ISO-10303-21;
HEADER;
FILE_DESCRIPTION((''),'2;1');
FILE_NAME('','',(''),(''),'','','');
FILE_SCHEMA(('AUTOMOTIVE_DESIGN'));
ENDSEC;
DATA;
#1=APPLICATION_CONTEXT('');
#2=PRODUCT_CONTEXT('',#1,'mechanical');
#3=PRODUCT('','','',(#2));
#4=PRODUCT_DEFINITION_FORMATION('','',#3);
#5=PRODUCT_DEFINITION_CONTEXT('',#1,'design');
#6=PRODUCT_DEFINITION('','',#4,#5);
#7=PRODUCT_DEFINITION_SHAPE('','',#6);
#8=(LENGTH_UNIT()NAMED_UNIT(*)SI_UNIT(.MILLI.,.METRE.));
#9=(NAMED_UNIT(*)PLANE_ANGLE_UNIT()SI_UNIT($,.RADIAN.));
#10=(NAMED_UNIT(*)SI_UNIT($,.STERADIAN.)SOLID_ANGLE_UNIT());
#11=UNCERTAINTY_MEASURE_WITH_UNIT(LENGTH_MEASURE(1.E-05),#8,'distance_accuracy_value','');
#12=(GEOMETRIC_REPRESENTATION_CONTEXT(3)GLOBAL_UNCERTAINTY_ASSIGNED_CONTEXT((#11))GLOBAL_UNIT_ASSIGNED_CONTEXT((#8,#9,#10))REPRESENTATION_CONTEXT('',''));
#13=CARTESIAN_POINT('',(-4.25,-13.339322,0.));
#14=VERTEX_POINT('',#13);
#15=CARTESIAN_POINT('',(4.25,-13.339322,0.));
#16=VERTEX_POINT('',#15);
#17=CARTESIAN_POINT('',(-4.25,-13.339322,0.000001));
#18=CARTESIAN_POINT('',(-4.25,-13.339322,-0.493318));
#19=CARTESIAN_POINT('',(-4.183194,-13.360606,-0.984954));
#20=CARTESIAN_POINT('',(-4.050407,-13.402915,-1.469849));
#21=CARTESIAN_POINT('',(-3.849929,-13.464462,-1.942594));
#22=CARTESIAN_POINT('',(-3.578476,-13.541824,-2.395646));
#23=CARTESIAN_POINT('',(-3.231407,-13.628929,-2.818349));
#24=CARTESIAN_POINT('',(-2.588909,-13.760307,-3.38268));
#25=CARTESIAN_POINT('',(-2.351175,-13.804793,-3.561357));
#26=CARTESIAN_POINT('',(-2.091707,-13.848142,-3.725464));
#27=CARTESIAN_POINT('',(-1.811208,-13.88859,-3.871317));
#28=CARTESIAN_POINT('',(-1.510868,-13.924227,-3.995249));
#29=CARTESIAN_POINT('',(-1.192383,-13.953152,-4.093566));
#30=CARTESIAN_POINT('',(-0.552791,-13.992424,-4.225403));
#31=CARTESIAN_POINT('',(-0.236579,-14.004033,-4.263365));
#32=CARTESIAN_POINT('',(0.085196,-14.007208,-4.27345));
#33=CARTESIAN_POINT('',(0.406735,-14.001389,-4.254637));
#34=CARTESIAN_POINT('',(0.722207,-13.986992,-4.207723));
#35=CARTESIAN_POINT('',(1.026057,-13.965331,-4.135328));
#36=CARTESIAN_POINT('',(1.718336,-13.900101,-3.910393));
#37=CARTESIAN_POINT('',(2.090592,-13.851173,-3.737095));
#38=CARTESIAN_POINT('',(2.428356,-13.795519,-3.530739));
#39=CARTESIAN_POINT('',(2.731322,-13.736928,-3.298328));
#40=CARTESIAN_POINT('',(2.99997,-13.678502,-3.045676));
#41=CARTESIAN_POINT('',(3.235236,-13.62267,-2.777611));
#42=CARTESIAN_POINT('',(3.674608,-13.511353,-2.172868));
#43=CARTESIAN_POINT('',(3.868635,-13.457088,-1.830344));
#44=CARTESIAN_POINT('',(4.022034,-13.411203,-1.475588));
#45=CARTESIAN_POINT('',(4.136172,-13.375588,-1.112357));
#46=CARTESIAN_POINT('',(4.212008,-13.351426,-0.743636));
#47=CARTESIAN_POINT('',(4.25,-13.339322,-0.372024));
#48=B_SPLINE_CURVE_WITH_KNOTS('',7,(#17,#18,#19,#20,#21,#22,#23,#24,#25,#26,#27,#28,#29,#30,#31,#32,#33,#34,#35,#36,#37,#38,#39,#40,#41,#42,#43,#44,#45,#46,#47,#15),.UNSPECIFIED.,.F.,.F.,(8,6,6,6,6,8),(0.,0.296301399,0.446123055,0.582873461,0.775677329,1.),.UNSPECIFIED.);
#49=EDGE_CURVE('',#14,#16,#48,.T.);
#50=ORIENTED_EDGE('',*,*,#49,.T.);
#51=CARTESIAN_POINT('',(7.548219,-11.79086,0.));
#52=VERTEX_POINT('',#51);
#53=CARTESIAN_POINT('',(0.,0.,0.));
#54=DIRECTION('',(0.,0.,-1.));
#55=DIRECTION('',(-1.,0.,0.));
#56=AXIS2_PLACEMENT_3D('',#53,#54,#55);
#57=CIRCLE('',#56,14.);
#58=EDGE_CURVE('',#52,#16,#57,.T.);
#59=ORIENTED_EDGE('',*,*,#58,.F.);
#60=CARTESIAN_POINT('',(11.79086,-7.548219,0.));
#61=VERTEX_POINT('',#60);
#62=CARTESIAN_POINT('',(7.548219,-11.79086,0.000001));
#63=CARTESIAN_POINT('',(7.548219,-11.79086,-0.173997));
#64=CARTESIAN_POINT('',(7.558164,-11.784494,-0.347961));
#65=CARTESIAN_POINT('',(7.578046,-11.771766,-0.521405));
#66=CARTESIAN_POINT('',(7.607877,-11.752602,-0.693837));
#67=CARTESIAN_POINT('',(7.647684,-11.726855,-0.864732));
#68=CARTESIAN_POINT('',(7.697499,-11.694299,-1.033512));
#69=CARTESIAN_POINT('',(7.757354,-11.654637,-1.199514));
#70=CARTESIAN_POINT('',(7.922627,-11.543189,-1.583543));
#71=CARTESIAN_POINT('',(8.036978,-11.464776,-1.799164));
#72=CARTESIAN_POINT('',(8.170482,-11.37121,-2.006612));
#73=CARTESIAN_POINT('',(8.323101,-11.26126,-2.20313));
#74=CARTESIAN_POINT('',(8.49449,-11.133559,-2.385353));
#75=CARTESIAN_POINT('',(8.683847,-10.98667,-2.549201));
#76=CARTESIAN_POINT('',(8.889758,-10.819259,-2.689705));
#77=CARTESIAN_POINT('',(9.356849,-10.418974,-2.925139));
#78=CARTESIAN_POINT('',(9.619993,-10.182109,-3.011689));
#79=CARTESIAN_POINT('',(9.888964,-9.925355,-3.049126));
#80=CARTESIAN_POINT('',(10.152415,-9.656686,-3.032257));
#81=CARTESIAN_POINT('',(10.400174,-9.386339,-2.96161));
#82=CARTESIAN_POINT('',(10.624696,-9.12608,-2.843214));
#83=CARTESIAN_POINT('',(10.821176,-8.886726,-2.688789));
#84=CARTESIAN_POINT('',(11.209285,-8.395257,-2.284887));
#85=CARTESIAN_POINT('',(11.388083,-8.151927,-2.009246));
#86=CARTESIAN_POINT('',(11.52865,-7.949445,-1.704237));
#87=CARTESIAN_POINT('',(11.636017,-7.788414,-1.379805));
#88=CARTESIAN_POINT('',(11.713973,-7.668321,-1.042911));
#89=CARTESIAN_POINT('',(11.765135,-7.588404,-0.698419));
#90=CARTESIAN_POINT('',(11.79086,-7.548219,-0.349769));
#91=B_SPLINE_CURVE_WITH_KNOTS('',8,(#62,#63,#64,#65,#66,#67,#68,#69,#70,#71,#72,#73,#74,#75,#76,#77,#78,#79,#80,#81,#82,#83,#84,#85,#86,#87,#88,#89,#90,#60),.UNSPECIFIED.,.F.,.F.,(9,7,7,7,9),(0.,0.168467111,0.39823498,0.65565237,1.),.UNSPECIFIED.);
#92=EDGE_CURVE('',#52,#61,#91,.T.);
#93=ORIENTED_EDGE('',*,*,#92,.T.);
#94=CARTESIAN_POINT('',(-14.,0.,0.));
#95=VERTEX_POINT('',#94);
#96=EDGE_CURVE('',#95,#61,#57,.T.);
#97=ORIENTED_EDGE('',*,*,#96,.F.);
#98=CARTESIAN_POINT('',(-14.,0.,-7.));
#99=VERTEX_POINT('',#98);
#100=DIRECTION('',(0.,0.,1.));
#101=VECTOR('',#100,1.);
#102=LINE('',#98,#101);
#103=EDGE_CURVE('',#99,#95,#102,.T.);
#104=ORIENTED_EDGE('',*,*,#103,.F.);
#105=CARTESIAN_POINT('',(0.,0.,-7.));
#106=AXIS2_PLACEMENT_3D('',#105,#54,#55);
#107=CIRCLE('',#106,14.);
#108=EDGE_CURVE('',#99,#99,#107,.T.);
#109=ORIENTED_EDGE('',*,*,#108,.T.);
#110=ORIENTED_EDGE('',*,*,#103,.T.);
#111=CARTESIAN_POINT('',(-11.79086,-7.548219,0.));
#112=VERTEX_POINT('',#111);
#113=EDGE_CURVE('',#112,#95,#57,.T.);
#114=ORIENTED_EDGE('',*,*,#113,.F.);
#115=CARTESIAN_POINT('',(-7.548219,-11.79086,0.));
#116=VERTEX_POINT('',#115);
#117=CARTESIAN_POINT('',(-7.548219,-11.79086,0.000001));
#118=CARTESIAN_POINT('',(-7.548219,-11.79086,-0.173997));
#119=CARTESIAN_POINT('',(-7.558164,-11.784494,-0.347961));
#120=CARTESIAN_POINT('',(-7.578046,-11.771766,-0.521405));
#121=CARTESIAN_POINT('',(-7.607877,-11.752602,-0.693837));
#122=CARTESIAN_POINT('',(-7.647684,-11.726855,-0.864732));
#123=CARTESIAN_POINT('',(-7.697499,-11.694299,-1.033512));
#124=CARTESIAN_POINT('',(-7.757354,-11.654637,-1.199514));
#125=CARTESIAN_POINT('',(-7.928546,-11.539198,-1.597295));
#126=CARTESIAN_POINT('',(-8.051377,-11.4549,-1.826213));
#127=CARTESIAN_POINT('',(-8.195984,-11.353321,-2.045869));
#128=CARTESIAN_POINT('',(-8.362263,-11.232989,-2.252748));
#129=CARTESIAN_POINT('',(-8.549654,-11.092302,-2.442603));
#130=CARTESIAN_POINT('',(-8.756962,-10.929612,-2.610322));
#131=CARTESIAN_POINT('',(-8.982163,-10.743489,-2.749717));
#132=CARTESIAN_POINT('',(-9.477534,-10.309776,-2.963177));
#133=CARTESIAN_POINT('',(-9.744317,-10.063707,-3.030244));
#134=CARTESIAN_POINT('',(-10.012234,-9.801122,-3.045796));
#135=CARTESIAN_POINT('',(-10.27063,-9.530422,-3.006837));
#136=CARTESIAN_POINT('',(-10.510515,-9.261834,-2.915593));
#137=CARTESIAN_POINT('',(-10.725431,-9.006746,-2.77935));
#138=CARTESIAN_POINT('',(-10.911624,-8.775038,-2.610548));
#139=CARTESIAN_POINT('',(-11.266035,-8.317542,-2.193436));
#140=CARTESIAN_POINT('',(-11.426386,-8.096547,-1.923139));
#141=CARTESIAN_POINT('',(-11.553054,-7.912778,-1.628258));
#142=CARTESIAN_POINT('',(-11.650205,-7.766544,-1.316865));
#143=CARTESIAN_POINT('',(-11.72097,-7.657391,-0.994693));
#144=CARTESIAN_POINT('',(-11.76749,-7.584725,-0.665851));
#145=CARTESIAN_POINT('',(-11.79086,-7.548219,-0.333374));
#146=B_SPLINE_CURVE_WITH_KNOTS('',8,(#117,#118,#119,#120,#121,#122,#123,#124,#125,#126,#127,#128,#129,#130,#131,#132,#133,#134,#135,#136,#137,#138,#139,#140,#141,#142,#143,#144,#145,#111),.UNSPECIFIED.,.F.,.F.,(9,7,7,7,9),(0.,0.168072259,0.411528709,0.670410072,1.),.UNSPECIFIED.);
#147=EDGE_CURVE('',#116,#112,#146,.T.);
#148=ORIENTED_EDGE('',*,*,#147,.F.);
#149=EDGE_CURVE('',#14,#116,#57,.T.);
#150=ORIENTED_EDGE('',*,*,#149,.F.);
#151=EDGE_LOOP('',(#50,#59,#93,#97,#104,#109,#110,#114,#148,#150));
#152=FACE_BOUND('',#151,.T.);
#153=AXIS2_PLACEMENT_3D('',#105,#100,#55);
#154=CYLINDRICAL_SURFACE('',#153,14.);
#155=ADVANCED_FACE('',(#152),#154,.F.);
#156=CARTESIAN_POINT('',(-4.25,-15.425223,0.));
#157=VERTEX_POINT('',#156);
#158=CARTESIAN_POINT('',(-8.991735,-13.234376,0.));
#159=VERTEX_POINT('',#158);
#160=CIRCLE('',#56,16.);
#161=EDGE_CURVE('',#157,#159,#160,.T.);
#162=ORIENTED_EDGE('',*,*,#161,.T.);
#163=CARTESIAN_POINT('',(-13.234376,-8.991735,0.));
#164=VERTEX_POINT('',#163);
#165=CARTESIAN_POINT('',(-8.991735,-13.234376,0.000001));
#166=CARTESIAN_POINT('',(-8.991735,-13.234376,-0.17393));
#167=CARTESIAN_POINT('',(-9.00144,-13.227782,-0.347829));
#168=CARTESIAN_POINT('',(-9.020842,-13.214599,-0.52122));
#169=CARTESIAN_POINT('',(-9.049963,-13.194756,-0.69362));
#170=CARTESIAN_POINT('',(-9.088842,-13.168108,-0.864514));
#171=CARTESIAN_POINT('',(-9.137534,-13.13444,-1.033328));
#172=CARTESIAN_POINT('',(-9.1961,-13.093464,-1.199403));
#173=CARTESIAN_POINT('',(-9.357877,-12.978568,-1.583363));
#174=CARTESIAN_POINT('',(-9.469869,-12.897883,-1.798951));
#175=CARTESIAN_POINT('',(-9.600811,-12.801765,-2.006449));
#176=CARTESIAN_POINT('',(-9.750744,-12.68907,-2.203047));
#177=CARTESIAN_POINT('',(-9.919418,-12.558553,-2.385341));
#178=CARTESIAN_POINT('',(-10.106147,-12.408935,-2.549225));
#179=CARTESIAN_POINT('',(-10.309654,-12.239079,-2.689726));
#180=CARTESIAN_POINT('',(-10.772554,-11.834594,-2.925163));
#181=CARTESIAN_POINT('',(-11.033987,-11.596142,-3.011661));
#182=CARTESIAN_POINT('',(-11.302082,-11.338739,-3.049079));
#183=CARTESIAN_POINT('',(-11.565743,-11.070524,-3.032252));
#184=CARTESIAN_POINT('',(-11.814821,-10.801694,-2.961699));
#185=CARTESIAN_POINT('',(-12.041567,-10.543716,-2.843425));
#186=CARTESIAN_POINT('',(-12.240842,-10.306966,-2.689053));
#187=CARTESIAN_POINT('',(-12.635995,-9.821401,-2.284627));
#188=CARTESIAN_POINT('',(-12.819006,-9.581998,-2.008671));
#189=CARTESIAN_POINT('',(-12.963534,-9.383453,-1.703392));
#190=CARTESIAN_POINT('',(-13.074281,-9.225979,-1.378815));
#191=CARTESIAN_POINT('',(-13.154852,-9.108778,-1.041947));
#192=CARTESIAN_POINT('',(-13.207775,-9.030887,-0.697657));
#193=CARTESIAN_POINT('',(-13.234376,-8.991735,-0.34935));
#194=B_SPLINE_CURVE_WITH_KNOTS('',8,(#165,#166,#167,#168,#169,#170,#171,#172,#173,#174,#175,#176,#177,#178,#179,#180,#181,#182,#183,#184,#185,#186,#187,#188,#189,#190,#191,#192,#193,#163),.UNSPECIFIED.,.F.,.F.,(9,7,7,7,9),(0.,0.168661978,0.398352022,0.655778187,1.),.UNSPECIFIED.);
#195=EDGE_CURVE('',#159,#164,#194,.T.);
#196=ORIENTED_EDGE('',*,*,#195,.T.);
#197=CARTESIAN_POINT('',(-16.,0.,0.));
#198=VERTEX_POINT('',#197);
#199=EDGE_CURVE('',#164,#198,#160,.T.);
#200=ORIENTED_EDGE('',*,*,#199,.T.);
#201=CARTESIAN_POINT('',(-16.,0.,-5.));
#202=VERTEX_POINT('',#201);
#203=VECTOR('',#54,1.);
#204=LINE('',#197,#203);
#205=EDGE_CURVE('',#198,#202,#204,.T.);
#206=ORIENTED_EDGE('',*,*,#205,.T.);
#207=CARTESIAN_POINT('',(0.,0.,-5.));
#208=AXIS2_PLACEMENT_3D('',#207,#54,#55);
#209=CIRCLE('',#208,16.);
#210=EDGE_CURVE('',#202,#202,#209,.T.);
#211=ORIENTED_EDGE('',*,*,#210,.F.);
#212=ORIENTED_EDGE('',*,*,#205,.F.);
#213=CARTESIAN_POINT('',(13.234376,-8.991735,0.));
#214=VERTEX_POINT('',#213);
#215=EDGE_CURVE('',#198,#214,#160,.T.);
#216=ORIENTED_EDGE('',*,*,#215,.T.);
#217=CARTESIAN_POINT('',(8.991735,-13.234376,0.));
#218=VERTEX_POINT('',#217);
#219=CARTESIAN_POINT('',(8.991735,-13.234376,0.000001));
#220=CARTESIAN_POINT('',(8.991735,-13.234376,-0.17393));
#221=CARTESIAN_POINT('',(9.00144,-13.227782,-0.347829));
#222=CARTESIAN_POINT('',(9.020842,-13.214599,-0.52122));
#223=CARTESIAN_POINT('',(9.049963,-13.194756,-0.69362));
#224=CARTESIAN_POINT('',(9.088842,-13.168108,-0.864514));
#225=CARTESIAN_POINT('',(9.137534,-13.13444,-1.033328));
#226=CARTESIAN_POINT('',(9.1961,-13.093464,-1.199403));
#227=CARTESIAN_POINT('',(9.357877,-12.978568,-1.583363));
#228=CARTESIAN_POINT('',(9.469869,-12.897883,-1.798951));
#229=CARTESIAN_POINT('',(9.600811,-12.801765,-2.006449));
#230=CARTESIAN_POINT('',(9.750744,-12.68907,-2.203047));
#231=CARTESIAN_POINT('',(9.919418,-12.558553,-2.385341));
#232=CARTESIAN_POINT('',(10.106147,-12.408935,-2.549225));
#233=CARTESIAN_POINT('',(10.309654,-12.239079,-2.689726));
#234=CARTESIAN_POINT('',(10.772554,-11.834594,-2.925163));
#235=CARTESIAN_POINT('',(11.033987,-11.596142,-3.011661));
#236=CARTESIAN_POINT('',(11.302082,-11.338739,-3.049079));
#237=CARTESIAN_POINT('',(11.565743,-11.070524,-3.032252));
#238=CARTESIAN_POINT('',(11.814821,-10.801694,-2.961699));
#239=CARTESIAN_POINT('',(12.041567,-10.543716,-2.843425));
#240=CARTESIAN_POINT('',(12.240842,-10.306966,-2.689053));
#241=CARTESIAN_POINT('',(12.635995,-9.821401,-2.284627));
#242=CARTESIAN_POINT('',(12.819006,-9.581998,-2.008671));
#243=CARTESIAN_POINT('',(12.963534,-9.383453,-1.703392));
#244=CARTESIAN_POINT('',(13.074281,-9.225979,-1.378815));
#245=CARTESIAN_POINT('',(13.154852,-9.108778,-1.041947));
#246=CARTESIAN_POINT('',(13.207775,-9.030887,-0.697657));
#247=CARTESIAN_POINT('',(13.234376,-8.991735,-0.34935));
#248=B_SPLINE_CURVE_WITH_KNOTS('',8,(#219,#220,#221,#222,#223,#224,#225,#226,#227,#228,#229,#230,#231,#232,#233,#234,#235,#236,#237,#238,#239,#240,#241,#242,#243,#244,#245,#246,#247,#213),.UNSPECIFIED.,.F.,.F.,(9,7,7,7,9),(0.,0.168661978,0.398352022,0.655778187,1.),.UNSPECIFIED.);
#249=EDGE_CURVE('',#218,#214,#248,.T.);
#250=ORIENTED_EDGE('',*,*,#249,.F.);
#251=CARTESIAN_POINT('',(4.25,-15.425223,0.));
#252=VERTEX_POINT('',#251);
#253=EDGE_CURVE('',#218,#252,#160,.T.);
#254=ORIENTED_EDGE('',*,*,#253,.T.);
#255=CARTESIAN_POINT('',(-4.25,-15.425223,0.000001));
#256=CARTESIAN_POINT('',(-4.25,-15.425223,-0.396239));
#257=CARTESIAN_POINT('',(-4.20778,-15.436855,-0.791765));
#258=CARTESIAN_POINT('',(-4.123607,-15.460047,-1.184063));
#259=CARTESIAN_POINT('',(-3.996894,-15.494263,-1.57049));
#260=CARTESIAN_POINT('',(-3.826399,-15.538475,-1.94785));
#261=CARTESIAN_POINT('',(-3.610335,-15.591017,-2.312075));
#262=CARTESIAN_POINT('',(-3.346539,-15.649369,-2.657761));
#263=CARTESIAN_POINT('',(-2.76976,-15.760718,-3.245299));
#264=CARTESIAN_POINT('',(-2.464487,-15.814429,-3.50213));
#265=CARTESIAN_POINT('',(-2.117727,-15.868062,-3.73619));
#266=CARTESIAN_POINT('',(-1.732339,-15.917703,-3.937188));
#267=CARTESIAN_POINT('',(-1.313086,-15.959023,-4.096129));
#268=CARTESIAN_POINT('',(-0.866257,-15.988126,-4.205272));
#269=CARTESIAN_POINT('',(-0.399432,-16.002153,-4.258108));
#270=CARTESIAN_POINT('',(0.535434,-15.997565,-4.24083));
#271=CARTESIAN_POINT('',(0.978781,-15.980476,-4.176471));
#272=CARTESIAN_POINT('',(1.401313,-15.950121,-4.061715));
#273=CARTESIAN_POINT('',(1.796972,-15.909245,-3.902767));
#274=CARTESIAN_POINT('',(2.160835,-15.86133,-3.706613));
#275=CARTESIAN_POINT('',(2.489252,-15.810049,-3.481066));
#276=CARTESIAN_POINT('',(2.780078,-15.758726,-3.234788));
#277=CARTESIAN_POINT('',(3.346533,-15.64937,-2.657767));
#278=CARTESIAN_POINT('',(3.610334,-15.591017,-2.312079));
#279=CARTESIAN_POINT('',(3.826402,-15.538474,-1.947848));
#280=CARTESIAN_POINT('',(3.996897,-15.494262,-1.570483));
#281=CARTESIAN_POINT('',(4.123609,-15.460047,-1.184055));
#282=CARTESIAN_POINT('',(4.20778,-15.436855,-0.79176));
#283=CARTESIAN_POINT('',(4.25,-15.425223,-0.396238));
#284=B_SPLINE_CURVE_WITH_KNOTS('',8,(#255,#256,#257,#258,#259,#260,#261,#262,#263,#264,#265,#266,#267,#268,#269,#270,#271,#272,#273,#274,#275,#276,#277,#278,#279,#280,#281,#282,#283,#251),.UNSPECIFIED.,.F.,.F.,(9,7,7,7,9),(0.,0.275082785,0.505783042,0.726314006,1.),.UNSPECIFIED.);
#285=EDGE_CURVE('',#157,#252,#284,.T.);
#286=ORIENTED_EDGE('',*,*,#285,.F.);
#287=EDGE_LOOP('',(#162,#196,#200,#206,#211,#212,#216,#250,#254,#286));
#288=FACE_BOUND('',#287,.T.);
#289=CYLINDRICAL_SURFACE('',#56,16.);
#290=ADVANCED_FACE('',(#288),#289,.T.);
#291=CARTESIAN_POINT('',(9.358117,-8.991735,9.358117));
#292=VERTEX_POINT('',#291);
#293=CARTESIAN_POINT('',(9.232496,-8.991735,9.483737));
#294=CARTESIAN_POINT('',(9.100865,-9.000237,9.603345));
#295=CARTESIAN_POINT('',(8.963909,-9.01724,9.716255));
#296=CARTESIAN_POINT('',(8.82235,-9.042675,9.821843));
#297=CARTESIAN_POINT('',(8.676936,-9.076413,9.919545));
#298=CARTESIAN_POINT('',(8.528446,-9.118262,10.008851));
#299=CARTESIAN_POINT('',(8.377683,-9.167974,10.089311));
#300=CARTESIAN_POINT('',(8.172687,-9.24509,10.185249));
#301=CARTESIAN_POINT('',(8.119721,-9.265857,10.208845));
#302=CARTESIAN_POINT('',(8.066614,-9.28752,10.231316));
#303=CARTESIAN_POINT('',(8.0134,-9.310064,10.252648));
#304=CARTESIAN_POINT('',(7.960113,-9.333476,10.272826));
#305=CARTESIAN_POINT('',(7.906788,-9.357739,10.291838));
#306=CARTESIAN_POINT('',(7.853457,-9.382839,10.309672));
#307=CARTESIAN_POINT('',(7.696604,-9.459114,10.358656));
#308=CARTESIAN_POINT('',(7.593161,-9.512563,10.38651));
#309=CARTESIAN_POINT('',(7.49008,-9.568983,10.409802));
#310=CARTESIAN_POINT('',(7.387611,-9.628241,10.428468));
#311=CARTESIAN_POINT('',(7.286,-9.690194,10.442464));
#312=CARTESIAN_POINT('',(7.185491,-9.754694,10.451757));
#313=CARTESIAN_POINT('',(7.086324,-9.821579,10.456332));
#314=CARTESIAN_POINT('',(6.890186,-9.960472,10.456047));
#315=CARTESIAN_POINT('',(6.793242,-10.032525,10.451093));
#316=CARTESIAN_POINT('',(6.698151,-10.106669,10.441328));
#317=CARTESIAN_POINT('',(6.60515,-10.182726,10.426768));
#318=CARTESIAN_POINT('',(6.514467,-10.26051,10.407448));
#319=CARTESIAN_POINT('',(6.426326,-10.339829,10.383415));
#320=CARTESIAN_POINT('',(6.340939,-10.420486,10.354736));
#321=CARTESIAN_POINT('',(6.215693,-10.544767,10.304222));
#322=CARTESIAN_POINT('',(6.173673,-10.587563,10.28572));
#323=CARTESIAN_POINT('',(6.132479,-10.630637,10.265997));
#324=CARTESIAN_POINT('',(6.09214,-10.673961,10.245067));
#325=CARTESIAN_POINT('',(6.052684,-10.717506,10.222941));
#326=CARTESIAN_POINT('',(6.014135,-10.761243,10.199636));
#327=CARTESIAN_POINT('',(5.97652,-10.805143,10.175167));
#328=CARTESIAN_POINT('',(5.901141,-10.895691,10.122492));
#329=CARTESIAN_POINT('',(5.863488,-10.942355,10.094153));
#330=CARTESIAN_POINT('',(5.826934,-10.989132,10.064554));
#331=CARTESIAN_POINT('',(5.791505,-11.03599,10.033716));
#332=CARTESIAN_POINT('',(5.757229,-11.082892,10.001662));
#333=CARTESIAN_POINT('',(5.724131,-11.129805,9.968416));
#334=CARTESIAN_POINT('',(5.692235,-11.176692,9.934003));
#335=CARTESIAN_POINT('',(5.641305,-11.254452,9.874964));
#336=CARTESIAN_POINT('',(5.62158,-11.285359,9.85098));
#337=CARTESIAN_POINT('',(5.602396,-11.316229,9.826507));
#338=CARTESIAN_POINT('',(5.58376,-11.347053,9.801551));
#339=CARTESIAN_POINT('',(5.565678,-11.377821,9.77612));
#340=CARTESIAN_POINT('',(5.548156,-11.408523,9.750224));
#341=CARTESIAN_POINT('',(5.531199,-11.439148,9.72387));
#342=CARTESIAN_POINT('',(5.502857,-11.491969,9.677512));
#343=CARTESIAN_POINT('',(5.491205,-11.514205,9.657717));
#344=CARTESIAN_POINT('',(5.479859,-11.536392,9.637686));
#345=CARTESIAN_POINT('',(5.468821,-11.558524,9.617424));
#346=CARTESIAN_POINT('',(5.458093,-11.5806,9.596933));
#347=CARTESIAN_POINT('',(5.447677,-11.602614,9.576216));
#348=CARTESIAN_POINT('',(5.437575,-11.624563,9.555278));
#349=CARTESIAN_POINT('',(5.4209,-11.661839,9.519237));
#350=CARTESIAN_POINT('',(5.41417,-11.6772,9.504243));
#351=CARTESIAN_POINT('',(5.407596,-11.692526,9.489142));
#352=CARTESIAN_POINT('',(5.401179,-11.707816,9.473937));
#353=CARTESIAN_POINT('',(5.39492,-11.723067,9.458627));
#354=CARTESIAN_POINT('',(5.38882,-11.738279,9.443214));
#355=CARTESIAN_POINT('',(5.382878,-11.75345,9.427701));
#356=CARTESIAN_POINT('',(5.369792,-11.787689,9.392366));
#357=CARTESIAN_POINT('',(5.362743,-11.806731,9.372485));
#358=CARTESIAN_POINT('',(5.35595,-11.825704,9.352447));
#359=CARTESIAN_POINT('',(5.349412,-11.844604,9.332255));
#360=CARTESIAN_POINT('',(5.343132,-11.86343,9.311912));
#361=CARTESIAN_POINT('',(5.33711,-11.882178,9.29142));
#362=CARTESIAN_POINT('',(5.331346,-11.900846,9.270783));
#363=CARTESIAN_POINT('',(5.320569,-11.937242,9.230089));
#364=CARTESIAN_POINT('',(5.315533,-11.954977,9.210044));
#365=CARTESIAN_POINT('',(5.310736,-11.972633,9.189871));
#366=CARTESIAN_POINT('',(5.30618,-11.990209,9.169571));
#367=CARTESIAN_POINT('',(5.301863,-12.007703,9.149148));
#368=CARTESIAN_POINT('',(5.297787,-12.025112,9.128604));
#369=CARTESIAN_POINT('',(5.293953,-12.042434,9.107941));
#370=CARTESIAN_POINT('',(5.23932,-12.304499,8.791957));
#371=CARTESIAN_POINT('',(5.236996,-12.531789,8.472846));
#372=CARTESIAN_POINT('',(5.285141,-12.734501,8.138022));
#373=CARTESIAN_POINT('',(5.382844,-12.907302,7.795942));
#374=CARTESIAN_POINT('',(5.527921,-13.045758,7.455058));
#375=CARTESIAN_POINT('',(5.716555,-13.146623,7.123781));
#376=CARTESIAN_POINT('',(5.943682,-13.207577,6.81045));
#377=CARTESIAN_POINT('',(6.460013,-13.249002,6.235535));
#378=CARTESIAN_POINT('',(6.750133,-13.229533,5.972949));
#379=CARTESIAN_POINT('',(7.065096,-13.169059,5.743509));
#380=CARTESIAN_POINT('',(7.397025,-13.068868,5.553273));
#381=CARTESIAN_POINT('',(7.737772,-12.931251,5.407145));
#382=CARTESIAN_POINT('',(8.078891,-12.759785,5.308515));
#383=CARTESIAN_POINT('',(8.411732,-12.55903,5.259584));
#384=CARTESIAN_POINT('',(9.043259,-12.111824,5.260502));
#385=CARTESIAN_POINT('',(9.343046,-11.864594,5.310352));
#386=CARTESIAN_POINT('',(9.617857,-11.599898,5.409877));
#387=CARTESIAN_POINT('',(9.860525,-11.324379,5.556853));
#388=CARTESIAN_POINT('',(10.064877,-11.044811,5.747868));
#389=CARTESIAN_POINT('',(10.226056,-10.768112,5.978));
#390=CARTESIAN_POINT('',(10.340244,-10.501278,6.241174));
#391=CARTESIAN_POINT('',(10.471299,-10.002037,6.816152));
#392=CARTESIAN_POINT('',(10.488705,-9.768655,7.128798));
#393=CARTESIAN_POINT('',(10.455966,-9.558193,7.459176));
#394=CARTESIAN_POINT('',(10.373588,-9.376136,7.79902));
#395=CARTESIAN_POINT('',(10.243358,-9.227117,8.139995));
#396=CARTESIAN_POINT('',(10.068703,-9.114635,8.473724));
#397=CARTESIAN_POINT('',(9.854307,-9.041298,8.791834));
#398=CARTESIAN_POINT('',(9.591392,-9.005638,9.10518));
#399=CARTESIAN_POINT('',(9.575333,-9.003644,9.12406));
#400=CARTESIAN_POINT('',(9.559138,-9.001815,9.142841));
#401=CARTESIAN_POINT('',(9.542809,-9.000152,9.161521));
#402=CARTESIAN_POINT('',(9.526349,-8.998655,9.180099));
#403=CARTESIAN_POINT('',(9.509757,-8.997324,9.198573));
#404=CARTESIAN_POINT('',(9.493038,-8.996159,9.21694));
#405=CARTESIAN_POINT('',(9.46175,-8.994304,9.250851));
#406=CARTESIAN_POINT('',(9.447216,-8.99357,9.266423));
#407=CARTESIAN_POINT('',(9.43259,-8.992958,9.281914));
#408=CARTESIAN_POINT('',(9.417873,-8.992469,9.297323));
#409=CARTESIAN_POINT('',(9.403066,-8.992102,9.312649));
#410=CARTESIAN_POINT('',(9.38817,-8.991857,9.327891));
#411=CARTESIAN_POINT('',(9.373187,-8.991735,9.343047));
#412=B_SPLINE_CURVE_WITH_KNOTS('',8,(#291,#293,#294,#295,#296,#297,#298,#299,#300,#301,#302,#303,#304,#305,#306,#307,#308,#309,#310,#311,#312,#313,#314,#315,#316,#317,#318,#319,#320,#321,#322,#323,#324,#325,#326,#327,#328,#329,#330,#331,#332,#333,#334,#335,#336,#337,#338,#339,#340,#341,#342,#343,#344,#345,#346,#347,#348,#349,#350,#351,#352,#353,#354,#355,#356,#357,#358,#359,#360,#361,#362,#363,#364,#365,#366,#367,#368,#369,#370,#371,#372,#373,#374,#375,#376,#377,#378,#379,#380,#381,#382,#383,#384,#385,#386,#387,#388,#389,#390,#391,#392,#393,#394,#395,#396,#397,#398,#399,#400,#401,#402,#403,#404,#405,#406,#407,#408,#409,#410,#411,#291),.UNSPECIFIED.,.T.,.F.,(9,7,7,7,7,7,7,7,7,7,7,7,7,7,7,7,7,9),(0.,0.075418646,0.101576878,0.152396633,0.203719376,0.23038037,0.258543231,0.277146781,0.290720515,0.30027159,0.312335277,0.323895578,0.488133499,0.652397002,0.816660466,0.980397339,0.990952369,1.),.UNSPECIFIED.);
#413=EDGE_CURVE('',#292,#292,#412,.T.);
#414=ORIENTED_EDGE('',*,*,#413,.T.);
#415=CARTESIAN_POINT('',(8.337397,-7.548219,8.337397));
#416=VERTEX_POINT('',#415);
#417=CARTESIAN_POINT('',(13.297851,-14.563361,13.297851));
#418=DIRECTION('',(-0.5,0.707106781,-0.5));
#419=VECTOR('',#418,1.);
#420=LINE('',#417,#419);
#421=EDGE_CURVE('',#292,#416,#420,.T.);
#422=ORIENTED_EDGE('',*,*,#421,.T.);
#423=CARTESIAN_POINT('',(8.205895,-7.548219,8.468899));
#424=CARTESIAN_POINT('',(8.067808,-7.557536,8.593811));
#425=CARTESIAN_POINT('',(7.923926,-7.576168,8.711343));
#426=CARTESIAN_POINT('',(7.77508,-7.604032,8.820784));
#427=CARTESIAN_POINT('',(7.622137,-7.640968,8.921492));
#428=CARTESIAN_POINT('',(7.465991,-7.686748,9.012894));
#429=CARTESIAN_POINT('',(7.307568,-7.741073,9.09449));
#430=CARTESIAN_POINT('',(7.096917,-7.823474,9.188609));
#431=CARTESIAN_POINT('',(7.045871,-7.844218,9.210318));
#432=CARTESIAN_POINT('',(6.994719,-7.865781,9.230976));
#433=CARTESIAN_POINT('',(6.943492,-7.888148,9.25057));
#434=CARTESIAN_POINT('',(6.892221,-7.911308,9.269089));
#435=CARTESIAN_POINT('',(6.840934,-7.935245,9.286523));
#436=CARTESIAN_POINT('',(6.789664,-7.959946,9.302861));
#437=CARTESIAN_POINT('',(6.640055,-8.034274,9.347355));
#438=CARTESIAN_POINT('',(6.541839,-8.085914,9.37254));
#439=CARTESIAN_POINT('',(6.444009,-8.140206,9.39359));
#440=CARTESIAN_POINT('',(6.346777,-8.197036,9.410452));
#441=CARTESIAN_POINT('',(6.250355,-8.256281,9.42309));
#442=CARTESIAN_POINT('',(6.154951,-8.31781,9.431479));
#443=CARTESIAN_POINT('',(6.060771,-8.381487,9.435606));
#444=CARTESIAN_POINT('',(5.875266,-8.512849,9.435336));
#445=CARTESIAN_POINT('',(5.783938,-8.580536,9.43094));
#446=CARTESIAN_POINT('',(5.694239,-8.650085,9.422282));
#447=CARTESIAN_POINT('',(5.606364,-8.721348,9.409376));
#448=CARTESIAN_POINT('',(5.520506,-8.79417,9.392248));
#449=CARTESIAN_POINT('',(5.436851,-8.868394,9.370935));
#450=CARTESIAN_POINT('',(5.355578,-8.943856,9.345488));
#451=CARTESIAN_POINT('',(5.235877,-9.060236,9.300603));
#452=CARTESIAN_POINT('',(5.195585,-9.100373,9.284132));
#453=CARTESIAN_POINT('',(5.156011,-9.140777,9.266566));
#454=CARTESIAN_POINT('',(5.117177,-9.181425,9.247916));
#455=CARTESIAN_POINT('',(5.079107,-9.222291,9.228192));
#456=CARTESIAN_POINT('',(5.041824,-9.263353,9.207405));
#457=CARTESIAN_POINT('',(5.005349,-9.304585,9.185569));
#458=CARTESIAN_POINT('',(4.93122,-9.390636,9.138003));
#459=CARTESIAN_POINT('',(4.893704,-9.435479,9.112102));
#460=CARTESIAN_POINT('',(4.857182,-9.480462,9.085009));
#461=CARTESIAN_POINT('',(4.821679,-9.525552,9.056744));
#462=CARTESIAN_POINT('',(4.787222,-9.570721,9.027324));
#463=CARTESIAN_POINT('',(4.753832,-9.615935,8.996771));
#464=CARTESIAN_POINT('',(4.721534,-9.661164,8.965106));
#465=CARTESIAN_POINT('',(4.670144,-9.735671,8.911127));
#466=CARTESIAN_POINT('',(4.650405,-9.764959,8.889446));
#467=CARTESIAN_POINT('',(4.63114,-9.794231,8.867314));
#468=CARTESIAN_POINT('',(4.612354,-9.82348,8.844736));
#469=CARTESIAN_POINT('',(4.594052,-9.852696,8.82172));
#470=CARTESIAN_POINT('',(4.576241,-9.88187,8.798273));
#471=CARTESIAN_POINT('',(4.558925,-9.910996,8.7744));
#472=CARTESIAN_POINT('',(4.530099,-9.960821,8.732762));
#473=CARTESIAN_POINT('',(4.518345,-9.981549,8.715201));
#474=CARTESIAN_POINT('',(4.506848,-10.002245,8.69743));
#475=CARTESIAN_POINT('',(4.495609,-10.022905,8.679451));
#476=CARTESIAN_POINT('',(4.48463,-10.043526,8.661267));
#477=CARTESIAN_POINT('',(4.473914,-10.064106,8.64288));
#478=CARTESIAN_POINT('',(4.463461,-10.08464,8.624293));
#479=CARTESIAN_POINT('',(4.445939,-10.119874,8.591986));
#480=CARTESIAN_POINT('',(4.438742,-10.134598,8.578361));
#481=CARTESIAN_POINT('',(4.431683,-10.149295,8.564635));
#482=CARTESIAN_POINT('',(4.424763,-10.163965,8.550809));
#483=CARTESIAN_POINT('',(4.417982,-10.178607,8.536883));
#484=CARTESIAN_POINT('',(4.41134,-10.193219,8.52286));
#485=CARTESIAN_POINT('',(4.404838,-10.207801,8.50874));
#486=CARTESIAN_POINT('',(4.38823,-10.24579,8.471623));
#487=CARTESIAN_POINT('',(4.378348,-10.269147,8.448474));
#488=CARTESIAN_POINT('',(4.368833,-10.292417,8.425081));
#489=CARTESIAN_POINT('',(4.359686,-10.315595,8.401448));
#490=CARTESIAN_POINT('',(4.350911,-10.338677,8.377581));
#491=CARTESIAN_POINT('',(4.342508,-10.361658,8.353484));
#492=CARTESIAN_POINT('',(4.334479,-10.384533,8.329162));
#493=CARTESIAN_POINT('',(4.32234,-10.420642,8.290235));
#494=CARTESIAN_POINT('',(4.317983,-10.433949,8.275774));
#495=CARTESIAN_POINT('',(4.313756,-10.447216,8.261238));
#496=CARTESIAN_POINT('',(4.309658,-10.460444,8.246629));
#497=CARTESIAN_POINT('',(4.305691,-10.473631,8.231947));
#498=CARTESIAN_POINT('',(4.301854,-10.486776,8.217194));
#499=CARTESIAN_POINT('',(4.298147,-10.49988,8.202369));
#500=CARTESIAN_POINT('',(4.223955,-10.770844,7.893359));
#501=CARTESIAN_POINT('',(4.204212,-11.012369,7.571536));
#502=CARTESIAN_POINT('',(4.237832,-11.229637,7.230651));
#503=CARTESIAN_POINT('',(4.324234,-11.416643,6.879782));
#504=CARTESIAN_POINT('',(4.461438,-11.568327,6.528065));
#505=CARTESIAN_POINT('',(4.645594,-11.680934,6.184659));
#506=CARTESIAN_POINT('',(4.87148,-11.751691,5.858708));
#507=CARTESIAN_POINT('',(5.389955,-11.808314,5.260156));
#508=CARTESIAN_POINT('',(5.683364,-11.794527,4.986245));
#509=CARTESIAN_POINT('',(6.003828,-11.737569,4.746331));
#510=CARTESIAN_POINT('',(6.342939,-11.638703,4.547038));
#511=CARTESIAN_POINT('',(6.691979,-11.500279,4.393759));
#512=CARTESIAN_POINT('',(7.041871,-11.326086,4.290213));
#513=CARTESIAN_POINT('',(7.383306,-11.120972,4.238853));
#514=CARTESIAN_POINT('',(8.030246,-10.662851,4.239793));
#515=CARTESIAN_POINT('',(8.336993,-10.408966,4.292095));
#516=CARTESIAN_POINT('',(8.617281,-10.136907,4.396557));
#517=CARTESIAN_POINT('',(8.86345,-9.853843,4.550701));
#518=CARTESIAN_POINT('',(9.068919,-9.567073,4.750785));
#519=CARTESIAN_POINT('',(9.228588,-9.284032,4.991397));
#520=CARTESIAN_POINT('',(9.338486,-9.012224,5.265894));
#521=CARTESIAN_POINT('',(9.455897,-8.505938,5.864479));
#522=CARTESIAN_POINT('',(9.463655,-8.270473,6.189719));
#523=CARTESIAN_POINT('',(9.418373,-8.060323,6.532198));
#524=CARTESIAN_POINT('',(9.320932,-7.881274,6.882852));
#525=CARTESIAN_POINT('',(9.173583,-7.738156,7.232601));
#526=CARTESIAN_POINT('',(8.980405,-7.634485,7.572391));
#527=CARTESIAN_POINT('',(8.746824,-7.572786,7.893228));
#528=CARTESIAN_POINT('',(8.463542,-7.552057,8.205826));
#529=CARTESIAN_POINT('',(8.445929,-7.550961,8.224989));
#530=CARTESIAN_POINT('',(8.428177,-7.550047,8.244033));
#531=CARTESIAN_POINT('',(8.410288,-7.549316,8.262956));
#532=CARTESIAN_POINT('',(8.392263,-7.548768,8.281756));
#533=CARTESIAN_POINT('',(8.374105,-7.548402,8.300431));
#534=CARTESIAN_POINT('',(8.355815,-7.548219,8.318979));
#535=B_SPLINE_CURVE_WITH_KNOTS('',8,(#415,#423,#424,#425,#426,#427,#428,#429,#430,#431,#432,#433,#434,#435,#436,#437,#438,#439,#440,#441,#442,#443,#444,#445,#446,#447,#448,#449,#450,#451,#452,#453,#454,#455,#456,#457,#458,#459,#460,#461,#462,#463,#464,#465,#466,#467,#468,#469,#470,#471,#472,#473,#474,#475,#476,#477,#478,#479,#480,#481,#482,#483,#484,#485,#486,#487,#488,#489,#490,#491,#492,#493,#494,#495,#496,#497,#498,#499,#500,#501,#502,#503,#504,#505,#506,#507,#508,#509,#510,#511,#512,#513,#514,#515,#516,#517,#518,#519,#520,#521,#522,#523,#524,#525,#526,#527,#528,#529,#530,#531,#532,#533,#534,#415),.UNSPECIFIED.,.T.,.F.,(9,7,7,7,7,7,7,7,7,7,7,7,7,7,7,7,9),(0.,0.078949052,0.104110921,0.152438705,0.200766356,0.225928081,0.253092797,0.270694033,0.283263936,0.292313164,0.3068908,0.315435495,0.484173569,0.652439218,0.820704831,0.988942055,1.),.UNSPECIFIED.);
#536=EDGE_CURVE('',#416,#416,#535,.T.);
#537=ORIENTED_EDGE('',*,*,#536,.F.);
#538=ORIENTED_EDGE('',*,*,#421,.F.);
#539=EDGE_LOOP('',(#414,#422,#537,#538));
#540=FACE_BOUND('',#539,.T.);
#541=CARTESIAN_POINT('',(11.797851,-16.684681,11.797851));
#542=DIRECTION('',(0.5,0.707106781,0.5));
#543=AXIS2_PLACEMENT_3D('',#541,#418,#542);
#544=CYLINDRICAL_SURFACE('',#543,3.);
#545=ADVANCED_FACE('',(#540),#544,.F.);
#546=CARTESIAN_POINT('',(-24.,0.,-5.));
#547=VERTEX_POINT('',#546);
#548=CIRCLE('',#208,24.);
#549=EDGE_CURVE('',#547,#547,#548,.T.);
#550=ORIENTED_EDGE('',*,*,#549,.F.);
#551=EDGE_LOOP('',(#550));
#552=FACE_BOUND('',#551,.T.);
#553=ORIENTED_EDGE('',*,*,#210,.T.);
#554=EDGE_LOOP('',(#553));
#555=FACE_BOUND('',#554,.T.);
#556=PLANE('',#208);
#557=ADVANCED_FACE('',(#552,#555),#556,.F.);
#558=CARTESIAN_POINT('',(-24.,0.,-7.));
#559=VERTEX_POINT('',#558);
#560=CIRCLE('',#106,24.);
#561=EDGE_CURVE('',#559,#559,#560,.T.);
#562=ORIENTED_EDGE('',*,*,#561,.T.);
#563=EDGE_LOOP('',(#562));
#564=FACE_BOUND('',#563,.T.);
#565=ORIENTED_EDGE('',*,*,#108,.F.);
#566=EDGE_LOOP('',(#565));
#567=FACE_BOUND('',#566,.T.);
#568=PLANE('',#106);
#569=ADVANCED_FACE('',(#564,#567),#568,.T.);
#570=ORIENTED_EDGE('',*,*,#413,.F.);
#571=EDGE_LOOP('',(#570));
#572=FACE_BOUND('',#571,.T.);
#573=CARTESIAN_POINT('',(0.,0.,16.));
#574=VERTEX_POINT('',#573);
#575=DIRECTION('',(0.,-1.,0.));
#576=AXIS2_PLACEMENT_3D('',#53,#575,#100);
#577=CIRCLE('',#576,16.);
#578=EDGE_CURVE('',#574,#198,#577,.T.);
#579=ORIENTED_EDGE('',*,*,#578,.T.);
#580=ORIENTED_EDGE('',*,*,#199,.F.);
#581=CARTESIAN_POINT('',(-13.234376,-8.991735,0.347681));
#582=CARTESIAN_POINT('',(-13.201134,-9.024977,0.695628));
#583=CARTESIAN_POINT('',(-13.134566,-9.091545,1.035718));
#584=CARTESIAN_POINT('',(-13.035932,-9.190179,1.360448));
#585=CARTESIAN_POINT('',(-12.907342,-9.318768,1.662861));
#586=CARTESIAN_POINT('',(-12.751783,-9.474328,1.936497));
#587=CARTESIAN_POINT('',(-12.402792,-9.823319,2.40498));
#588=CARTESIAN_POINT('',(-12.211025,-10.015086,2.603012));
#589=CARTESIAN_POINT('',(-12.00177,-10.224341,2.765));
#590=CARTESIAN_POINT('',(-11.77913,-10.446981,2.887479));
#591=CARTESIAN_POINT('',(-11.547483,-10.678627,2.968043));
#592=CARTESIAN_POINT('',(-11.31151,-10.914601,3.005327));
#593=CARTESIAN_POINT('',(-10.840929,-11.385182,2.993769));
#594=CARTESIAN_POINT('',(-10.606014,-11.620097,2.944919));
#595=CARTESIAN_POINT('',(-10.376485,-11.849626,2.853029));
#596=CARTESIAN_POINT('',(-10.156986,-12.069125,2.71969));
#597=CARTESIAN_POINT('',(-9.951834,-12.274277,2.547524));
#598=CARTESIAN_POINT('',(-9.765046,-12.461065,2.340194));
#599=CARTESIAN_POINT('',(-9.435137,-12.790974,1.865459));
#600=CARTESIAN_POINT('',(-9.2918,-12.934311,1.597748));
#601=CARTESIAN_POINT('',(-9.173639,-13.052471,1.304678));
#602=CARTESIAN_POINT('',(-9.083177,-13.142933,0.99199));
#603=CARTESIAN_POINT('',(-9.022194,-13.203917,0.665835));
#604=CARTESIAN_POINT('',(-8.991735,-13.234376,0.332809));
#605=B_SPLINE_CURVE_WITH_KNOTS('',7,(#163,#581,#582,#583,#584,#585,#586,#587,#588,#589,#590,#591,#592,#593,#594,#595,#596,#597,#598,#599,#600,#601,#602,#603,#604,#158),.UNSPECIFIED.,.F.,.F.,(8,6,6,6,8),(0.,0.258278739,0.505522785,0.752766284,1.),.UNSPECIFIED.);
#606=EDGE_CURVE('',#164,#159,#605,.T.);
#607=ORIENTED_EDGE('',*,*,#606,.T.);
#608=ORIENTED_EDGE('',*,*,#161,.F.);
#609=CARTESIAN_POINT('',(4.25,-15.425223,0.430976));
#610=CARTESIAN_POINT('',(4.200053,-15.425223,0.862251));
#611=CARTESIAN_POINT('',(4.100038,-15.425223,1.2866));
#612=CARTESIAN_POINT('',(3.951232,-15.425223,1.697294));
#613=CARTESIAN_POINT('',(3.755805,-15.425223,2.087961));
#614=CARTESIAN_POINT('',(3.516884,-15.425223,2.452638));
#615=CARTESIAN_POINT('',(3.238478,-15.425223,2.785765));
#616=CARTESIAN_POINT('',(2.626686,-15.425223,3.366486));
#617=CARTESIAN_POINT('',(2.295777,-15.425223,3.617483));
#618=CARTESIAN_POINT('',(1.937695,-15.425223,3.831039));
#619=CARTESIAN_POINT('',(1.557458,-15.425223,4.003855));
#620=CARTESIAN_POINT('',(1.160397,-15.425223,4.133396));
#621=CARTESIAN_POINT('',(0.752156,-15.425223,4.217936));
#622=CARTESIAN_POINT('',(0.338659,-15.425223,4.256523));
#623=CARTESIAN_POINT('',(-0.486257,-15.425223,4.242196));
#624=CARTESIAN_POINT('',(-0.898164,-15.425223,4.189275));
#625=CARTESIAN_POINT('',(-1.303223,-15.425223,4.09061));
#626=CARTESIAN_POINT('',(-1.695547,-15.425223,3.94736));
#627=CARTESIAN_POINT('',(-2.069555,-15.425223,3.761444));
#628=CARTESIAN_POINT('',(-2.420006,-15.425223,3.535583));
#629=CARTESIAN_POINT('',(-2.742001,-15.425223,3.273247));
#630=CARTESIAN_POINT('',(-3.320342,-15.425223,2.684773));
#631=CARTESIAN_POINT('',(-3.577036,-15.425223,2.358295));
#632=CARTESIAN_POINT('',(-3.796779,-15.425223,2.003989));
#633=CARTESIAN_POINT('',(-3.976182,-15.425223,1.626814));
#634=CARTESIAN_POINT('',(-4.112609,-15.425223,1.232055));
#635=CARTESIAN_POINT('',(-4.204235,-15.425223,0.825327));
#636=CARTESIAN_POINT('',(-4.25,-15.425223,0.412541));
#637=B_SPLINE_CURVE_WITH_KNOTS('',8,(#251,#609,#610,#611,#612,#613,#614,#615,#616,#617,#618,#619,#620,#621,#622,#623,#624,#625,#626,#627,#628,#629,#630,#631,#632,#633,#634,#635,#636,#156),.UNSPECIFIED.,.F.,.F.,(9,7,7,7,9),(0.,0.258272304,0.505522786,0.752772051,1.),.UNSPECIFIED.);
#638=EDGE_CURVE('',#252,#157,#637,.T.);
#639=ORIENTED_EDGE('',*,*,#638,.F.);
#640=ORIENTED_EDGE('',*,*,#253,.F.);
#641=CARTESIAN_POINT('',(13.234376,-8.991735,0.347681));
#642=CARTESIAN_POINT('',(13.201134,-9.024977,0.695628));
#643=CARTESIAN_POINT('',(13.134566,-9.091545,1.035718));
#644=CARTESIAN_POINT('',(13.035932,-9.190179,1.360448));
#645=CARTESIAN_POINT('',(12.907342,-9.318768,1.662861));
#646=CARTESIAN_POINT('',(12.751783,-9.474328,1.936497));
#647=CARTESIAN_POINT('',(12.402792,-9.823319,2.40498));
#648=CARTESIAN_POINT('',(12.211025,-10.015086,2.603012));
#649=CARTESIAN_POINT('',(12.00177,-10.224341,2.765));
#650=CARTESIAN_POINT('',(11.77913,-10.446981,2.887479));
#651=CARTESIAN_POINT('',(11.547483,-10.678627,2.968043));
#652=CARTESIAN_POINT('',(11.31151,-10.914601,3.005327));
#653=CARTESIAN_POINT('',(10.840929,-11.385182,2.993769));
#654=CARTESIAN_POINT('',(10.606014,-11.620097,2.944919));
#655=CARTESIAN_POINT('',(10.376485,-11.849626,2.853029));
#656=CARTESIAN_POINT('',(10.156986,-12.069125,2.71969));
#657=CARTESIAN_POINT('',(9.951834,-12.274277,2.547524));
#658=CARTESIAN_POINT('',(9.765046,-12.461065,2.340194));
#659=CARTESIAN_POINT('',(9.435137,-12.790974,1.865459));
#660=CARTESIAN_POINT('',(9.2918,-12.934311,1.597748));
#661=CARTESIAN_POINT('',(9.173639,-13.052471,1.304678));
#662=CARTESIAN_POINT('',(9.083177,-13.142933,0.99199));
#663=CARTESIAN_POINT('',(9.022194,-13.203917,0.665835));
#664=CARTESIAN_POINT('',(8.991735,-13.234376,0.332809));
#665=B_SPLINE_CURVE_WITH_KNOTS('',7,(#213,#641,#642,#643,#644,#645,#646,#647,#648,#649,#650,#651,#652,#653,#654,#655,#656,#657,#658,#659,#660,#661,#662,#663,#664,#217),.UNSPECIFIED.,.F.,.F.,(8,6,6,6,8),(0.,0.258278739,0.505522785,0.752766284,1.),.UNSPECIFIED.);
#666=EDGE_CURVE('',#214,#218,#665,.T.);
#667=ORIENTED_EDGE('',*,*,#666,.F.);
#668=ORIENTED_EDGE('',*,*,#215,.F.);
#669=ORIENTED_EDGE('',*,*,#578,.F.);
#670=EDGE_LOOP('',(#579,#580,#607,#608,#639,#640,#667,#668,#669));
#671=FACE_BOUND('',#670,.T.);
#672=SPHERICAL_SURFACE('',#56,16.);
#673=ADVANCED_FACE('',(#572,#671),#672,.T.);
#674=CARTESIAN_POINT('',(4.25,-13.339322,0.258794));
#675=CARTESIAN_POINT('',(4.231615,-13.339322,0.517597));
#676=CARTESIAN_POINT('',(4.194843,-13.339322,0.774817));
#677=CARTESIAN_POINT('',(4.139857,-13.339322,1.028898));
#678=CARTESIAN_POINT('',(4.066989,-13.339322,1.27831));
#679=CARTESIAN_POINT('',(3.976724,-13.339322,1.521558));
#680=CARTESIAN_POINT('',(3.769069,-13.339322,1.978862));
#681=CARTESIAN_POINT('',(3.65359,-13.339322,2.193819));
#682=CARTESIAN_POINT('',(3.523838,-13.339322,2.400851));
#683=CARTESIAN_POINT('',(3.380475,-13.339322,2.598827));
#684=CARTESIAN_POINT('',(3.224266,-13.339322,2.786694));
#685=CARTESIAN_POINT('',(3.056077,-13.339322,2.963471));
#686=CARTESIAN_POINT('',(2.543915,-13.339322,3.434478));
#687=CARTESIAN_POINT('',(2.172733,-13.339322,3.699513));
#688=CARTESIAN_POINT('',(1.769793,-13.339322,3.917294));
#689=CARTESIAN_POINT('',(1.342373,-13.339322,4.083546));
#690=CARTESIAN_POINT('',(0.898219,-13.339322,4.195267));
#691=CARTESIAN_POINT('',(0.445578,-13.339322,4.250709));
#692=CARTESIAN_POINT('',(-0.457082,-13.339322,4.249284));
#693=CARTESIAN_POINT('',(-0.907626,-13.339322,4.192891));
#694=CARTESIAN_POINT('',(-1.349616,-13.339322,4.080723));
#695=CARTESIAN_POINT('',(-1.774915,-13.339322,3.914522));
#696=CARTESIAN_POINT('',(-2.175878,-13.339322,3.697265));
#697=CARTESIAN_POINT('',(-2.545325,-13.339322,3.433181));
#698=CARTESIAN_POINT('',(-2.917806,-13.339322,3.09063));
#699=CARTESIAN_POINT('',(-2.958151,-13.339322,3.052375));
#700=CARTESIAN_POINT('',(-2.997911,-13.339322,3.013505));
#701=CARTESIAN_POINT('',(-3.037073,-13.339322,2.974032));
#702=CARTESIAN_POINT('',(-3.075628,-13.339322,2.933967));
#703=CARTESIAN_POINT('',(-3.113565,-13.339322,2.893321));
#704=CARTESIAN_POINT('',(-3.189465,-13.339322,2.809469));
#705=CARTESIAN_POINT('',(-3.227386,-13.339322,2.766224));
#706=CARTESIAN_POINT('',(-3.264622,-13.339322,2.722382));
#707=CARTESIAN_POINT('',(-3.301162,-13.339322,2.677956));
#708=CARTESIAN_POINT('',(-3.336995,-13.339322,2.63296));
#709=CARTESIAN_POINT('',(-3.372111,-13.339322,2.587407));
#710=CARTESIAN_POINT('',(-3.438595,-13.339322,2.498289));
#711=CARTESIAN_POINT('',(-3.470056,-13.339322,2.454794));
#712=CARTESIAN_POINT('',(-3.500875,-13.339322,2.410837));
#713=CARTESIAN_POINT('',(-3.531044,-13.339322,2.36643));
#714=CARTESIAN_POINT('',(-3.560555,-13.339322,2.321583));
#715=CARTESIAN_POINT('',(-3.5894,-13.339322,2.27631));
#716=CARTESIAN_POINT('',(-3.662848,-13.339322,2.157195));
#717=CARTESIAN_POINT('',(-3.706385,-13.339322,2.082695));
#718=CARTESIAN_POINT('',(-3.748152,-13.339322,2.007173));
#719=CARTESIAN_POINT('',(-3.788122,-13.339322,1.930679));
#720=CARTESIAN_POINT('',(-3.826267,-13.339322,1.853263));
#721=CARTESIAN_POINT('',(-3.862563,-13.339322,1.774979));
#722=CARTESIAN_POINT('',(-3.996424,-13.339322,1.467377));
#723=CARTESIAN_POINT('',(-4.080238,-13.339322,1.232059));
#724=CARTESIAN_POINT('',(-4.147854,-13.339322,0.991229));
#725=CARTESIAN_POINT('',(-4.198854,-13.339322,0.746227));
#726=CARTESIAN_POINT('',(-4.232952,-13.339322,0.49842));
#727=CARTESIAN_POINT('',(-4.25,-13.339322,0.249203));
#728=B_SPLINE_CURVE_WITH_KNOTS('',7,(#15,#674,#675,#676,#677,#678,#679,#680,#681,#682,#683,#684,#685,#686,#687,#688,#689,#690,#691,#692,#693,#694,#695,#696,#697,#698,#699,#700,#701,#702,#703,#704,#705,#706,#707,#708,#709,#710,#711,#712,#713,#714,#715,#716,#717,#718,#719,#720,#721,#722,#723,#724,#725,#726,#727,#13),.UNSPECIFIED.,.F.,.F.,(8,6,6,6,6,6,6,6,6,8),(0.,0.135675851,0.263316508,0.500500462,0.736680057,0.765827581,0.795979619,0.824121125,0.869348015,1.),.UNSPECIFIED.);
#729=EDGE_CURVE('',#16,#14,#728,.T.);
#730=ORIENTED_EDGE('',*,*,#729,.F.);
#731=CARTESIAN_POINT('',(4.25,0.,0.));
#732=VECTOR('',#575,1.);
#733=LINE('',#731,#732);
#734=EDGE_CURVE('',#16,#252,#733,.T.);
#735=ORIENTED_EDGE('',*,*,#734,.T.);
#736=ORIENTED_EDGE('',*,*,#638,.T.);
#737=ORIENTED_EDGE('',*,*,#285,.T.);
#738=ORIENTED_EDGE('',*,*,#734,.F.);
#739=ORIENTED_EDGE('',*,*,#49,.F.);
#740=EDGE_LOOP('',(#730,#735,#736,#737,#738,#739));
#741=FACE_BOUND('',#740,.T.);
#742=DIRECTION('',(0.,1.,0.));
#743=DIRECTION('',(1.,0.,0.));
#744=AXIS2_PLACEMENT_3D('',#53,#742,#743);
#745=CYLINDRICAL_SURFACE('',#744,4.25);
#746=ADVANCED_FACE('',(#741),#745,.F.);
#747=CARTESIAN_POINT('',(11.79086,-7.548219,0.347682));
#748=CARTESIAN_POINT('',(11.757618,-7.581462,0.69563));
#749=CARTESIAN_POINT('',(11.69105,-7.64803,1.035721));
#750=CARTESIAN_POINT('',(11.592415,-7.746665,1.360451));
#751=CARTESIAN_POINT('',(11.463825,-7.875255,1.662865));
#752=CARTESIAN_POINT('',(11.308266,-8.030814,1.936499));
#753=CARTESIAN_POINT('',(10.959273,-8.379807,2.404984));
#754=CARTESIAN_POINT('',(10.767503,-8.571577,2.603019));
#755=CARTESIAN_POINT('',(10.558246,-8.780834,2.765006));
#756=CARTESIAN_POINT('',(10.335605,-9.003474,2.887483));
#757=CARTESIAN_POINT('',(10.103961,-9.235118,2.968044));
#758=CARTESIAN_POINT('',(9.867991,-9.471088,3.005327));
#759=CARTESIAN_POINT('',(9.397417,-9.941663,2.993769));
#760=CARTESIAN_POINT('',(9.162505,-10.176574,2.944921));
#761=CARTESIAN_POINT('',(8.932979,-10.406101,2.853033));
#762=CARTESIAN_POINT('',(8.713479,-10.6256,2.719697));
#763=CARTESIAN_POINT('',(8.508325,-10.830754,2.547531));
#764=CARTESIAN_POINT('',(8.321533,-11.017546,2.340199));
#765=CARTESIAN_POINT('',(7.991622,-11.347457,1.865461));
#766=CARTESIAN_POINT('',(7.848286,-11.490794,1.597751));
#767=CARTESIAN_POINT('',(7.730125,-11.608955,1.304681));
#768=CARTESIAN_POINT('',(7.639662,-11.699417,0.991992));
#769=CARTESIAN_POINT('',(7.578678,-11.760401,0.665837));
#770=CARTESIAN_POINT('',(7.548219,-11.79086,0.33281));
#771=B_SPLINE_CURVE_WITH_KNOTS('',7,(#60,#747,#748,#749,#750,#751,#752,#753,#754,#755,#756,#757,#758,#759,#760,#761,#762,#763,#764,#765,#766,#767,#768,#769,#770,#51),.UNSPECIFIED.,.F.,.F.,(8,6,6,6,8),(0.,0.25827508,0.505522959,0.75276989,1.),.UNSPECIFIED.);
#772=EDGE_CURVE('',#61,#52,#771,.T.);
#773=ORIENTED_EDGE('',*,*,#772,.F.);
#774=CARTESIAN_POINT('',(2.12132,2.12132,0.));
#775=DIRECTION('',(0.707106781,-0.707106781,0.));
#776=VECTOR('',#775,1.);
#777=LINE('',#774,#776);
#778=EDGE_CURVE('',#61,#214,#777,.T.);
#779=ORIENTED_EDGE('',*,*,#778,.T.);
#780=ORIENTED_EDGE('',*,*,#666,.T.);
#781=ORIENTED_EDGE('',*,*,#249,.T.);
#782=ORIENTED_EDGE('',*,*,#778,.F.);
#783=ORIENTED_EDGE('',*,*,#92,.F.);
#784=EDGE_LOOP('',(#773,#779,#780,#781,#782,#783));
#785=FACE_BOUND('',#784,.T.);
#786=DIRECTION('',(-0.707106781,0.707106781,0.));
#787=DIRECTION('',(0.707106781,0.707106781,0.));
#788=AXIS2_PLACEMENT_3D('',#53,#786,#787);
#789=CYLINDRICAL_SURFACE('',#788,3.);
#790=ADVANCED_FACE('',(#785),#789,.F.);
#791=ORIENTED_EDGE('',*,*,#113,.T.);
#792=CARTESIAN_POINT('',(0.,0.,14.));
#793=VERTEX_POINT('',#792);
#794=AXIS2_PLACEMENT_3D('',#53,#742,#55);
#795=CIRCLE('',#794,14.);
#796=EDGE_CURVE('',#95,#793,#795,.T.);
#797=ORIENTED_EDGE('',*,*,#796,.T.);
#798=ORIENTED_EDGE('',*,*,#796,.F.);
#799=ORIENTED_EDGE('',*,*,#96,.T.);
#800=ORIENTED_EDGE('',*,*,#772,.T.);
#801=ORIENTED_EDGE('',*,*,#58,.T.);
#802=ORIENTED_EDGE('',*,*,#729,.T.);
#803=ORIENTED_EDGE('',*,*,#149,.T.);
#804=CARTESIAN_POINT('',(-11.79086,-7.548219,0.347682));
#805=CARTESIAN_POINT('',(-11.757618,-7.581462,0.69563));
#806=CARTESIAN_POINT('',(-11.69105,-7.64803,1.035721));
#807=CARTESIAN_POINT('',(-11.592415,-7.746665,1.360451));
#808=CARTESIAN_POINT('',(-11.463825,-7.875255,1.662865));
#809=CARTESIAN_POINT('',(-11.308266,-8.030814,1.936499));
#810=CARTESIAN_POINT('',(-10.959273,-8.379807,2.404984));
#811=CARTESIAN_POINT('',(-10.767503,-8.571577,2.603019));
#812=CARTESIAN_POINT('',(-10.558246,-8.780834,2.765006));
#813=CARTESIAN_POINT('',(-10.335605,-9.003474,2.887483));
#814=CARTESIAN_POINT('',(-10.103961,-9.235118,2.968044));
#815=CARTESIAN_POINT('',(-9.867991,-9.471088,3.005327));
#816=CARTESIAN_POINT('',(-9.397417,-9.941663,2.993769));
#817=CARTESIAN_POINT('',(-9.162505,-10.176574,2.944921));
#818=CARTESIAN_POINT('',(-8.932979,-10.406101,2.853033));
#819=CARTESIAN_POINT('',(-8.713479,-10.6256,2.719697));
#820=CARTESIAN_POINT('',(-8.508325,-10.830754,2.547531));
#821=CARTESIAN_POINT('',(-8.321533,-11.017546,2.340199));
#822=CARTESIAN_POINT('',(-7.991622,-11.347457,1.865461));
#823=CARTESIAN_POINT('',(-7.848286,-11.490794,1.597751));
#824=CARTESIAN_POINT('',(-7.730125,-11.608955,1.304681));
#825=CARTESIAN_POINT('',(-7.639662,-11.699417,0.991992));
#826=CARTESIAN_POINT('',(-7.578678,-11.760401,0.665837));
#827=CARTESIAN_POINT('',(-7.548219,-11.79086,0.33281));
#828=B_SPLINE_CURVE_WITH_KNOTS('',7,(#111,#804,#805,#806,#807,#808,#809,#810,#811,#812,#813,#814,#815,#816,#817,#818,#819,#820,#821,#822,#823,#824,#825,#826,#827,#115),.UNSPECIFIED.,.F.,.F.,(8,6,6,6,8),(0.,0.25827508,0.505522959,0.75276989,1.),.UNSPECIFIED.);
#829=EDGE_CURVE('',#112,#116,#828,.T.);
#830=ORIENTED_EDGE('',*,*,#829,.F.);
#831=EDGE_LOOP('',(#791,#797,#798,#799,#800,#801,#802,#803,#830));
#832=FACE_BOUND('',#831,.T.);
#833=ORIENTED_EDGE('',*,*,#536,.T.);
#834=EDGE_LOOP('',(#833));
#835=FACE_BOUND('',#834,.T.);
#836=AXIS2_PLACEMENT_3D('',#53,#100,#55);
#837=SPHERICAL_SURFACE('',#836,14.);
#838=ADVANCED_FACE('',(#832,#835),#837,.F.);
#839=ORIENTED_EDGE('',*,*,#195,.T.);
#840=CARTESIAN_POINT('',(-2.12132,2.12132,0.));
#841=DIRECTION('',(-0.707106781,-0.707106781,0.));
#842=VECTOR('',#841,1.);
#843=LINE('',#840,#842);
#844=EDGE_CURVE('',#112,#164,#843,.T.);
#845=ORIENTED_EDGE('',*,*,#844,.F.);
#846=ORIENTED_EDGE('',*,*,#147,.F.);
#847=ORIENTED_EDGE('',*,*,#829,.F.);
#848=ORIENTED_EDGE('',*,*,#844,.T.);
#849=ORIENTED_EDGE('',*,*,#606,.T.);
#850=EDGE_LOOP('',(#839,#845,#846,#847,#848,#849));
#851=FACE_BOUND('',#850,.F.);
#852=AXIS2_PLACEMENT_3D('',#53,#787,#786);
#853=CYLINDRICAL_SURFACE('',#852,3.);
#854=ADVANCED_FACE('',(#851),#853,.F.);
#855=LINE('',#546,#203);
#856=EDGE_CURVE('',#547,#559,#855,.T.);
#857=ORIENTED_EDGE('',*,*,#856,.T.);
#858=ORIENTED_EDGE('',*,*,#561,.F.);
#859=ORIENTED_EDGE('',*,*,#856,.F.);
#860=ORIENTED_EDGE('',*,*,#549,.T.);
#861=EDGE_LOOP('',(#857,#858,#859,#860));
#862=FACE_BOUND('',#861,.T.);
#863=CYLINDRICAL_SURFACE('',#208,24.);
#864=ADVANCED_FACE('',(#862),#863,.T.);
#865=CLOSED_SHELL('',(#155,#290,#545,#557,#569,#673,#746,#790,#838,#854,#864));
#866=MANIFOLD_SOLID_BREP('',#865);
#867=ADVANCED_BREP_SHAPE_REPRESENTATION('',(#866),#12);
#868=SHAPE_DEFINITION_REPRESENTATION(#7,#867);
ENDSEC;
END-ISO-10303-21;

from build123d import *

# Parameters (mm, degrees)
F2_R      = 4.25
F3_DEPTH  = 50
F6_R      = 3
F7_DEPTH  = 25
F13_R     = 3
F14_DEPTH = 25


with BuildPart() as f1:
    # F0 (on Front) → F1 (revolve)
    with BuildSketch(Plane.XZ):
        with BuildLine():
            Line((-24, -7), (-14, -7))
            Line((-14, -7), (-14, 0))
            ThreePointArc((-14, 0), (-9.8994949366, 9.8994949366), (0, 14))
            Line((0, 14), (0, 16))
            ThreePointArc((0, 16), (-11.313708499, 11.313708499), (-16, 0))
            Line((-16, 0), (-16, -5))
            Line((-16, -5), (-24, -5))
            Line((-24, -5), (-24, -7))
        make_face()
    revolve(axis=Axis((0, 0, 15), (0, 0, -1)))

    # F2 (on Front) → F3 (cut)
    with BuildSketch(Plane.XZ):
        Circle(F2_R)
    extrude(amount=F3_DEPTH, mode=Mode.SUBTRACT)

    # F6 (on face) → F7 (cut)
    with BuildSketch(Plane(origin=(0, 0, 0), x_dir=(-0.7071067812, 0.7071067812, 0), z_dir=(0.7071067812, 0.7071067812, 0))):
        Circle(F6_R)
    extrude(amount=-F7_DEPTH, mode=Mode.SUBTRACT)

    # F10 (on face) → F11 (revolve, cut)
    with BuildSketch(Plane(origin=(0, 0, 0), x_dir=(0, -1, 0), z_dir=(-0.7071067812, 0, 0.7071067812))):
        Polygon((3.9985278842, 3.9985278842), (16.6846810101, 16.6846810101), (14.5633606666, 18.8060013537), (1.8772075407, 6.1198482278), align=None)
    revolve(axis=Axis((7.3126186329, -10.3416044472, 7.3126186329), (0.5, -0.7071067812, 0.5)), mode=Mode.SUBTRACT)

    # F13 (on face) → F14 (cut)
    with BuildSketch(Plane(origin=(0, 0, 0), x_dir=(0.7071067812, 0.7071067812, 0), z_dir=(0.7071067812, -0.7071067812, 0))):
        Circle(F13_R)
    extrude(amount=F14_DEPTH, mode=Mode.SUBTRACT)


solid = f1.part
